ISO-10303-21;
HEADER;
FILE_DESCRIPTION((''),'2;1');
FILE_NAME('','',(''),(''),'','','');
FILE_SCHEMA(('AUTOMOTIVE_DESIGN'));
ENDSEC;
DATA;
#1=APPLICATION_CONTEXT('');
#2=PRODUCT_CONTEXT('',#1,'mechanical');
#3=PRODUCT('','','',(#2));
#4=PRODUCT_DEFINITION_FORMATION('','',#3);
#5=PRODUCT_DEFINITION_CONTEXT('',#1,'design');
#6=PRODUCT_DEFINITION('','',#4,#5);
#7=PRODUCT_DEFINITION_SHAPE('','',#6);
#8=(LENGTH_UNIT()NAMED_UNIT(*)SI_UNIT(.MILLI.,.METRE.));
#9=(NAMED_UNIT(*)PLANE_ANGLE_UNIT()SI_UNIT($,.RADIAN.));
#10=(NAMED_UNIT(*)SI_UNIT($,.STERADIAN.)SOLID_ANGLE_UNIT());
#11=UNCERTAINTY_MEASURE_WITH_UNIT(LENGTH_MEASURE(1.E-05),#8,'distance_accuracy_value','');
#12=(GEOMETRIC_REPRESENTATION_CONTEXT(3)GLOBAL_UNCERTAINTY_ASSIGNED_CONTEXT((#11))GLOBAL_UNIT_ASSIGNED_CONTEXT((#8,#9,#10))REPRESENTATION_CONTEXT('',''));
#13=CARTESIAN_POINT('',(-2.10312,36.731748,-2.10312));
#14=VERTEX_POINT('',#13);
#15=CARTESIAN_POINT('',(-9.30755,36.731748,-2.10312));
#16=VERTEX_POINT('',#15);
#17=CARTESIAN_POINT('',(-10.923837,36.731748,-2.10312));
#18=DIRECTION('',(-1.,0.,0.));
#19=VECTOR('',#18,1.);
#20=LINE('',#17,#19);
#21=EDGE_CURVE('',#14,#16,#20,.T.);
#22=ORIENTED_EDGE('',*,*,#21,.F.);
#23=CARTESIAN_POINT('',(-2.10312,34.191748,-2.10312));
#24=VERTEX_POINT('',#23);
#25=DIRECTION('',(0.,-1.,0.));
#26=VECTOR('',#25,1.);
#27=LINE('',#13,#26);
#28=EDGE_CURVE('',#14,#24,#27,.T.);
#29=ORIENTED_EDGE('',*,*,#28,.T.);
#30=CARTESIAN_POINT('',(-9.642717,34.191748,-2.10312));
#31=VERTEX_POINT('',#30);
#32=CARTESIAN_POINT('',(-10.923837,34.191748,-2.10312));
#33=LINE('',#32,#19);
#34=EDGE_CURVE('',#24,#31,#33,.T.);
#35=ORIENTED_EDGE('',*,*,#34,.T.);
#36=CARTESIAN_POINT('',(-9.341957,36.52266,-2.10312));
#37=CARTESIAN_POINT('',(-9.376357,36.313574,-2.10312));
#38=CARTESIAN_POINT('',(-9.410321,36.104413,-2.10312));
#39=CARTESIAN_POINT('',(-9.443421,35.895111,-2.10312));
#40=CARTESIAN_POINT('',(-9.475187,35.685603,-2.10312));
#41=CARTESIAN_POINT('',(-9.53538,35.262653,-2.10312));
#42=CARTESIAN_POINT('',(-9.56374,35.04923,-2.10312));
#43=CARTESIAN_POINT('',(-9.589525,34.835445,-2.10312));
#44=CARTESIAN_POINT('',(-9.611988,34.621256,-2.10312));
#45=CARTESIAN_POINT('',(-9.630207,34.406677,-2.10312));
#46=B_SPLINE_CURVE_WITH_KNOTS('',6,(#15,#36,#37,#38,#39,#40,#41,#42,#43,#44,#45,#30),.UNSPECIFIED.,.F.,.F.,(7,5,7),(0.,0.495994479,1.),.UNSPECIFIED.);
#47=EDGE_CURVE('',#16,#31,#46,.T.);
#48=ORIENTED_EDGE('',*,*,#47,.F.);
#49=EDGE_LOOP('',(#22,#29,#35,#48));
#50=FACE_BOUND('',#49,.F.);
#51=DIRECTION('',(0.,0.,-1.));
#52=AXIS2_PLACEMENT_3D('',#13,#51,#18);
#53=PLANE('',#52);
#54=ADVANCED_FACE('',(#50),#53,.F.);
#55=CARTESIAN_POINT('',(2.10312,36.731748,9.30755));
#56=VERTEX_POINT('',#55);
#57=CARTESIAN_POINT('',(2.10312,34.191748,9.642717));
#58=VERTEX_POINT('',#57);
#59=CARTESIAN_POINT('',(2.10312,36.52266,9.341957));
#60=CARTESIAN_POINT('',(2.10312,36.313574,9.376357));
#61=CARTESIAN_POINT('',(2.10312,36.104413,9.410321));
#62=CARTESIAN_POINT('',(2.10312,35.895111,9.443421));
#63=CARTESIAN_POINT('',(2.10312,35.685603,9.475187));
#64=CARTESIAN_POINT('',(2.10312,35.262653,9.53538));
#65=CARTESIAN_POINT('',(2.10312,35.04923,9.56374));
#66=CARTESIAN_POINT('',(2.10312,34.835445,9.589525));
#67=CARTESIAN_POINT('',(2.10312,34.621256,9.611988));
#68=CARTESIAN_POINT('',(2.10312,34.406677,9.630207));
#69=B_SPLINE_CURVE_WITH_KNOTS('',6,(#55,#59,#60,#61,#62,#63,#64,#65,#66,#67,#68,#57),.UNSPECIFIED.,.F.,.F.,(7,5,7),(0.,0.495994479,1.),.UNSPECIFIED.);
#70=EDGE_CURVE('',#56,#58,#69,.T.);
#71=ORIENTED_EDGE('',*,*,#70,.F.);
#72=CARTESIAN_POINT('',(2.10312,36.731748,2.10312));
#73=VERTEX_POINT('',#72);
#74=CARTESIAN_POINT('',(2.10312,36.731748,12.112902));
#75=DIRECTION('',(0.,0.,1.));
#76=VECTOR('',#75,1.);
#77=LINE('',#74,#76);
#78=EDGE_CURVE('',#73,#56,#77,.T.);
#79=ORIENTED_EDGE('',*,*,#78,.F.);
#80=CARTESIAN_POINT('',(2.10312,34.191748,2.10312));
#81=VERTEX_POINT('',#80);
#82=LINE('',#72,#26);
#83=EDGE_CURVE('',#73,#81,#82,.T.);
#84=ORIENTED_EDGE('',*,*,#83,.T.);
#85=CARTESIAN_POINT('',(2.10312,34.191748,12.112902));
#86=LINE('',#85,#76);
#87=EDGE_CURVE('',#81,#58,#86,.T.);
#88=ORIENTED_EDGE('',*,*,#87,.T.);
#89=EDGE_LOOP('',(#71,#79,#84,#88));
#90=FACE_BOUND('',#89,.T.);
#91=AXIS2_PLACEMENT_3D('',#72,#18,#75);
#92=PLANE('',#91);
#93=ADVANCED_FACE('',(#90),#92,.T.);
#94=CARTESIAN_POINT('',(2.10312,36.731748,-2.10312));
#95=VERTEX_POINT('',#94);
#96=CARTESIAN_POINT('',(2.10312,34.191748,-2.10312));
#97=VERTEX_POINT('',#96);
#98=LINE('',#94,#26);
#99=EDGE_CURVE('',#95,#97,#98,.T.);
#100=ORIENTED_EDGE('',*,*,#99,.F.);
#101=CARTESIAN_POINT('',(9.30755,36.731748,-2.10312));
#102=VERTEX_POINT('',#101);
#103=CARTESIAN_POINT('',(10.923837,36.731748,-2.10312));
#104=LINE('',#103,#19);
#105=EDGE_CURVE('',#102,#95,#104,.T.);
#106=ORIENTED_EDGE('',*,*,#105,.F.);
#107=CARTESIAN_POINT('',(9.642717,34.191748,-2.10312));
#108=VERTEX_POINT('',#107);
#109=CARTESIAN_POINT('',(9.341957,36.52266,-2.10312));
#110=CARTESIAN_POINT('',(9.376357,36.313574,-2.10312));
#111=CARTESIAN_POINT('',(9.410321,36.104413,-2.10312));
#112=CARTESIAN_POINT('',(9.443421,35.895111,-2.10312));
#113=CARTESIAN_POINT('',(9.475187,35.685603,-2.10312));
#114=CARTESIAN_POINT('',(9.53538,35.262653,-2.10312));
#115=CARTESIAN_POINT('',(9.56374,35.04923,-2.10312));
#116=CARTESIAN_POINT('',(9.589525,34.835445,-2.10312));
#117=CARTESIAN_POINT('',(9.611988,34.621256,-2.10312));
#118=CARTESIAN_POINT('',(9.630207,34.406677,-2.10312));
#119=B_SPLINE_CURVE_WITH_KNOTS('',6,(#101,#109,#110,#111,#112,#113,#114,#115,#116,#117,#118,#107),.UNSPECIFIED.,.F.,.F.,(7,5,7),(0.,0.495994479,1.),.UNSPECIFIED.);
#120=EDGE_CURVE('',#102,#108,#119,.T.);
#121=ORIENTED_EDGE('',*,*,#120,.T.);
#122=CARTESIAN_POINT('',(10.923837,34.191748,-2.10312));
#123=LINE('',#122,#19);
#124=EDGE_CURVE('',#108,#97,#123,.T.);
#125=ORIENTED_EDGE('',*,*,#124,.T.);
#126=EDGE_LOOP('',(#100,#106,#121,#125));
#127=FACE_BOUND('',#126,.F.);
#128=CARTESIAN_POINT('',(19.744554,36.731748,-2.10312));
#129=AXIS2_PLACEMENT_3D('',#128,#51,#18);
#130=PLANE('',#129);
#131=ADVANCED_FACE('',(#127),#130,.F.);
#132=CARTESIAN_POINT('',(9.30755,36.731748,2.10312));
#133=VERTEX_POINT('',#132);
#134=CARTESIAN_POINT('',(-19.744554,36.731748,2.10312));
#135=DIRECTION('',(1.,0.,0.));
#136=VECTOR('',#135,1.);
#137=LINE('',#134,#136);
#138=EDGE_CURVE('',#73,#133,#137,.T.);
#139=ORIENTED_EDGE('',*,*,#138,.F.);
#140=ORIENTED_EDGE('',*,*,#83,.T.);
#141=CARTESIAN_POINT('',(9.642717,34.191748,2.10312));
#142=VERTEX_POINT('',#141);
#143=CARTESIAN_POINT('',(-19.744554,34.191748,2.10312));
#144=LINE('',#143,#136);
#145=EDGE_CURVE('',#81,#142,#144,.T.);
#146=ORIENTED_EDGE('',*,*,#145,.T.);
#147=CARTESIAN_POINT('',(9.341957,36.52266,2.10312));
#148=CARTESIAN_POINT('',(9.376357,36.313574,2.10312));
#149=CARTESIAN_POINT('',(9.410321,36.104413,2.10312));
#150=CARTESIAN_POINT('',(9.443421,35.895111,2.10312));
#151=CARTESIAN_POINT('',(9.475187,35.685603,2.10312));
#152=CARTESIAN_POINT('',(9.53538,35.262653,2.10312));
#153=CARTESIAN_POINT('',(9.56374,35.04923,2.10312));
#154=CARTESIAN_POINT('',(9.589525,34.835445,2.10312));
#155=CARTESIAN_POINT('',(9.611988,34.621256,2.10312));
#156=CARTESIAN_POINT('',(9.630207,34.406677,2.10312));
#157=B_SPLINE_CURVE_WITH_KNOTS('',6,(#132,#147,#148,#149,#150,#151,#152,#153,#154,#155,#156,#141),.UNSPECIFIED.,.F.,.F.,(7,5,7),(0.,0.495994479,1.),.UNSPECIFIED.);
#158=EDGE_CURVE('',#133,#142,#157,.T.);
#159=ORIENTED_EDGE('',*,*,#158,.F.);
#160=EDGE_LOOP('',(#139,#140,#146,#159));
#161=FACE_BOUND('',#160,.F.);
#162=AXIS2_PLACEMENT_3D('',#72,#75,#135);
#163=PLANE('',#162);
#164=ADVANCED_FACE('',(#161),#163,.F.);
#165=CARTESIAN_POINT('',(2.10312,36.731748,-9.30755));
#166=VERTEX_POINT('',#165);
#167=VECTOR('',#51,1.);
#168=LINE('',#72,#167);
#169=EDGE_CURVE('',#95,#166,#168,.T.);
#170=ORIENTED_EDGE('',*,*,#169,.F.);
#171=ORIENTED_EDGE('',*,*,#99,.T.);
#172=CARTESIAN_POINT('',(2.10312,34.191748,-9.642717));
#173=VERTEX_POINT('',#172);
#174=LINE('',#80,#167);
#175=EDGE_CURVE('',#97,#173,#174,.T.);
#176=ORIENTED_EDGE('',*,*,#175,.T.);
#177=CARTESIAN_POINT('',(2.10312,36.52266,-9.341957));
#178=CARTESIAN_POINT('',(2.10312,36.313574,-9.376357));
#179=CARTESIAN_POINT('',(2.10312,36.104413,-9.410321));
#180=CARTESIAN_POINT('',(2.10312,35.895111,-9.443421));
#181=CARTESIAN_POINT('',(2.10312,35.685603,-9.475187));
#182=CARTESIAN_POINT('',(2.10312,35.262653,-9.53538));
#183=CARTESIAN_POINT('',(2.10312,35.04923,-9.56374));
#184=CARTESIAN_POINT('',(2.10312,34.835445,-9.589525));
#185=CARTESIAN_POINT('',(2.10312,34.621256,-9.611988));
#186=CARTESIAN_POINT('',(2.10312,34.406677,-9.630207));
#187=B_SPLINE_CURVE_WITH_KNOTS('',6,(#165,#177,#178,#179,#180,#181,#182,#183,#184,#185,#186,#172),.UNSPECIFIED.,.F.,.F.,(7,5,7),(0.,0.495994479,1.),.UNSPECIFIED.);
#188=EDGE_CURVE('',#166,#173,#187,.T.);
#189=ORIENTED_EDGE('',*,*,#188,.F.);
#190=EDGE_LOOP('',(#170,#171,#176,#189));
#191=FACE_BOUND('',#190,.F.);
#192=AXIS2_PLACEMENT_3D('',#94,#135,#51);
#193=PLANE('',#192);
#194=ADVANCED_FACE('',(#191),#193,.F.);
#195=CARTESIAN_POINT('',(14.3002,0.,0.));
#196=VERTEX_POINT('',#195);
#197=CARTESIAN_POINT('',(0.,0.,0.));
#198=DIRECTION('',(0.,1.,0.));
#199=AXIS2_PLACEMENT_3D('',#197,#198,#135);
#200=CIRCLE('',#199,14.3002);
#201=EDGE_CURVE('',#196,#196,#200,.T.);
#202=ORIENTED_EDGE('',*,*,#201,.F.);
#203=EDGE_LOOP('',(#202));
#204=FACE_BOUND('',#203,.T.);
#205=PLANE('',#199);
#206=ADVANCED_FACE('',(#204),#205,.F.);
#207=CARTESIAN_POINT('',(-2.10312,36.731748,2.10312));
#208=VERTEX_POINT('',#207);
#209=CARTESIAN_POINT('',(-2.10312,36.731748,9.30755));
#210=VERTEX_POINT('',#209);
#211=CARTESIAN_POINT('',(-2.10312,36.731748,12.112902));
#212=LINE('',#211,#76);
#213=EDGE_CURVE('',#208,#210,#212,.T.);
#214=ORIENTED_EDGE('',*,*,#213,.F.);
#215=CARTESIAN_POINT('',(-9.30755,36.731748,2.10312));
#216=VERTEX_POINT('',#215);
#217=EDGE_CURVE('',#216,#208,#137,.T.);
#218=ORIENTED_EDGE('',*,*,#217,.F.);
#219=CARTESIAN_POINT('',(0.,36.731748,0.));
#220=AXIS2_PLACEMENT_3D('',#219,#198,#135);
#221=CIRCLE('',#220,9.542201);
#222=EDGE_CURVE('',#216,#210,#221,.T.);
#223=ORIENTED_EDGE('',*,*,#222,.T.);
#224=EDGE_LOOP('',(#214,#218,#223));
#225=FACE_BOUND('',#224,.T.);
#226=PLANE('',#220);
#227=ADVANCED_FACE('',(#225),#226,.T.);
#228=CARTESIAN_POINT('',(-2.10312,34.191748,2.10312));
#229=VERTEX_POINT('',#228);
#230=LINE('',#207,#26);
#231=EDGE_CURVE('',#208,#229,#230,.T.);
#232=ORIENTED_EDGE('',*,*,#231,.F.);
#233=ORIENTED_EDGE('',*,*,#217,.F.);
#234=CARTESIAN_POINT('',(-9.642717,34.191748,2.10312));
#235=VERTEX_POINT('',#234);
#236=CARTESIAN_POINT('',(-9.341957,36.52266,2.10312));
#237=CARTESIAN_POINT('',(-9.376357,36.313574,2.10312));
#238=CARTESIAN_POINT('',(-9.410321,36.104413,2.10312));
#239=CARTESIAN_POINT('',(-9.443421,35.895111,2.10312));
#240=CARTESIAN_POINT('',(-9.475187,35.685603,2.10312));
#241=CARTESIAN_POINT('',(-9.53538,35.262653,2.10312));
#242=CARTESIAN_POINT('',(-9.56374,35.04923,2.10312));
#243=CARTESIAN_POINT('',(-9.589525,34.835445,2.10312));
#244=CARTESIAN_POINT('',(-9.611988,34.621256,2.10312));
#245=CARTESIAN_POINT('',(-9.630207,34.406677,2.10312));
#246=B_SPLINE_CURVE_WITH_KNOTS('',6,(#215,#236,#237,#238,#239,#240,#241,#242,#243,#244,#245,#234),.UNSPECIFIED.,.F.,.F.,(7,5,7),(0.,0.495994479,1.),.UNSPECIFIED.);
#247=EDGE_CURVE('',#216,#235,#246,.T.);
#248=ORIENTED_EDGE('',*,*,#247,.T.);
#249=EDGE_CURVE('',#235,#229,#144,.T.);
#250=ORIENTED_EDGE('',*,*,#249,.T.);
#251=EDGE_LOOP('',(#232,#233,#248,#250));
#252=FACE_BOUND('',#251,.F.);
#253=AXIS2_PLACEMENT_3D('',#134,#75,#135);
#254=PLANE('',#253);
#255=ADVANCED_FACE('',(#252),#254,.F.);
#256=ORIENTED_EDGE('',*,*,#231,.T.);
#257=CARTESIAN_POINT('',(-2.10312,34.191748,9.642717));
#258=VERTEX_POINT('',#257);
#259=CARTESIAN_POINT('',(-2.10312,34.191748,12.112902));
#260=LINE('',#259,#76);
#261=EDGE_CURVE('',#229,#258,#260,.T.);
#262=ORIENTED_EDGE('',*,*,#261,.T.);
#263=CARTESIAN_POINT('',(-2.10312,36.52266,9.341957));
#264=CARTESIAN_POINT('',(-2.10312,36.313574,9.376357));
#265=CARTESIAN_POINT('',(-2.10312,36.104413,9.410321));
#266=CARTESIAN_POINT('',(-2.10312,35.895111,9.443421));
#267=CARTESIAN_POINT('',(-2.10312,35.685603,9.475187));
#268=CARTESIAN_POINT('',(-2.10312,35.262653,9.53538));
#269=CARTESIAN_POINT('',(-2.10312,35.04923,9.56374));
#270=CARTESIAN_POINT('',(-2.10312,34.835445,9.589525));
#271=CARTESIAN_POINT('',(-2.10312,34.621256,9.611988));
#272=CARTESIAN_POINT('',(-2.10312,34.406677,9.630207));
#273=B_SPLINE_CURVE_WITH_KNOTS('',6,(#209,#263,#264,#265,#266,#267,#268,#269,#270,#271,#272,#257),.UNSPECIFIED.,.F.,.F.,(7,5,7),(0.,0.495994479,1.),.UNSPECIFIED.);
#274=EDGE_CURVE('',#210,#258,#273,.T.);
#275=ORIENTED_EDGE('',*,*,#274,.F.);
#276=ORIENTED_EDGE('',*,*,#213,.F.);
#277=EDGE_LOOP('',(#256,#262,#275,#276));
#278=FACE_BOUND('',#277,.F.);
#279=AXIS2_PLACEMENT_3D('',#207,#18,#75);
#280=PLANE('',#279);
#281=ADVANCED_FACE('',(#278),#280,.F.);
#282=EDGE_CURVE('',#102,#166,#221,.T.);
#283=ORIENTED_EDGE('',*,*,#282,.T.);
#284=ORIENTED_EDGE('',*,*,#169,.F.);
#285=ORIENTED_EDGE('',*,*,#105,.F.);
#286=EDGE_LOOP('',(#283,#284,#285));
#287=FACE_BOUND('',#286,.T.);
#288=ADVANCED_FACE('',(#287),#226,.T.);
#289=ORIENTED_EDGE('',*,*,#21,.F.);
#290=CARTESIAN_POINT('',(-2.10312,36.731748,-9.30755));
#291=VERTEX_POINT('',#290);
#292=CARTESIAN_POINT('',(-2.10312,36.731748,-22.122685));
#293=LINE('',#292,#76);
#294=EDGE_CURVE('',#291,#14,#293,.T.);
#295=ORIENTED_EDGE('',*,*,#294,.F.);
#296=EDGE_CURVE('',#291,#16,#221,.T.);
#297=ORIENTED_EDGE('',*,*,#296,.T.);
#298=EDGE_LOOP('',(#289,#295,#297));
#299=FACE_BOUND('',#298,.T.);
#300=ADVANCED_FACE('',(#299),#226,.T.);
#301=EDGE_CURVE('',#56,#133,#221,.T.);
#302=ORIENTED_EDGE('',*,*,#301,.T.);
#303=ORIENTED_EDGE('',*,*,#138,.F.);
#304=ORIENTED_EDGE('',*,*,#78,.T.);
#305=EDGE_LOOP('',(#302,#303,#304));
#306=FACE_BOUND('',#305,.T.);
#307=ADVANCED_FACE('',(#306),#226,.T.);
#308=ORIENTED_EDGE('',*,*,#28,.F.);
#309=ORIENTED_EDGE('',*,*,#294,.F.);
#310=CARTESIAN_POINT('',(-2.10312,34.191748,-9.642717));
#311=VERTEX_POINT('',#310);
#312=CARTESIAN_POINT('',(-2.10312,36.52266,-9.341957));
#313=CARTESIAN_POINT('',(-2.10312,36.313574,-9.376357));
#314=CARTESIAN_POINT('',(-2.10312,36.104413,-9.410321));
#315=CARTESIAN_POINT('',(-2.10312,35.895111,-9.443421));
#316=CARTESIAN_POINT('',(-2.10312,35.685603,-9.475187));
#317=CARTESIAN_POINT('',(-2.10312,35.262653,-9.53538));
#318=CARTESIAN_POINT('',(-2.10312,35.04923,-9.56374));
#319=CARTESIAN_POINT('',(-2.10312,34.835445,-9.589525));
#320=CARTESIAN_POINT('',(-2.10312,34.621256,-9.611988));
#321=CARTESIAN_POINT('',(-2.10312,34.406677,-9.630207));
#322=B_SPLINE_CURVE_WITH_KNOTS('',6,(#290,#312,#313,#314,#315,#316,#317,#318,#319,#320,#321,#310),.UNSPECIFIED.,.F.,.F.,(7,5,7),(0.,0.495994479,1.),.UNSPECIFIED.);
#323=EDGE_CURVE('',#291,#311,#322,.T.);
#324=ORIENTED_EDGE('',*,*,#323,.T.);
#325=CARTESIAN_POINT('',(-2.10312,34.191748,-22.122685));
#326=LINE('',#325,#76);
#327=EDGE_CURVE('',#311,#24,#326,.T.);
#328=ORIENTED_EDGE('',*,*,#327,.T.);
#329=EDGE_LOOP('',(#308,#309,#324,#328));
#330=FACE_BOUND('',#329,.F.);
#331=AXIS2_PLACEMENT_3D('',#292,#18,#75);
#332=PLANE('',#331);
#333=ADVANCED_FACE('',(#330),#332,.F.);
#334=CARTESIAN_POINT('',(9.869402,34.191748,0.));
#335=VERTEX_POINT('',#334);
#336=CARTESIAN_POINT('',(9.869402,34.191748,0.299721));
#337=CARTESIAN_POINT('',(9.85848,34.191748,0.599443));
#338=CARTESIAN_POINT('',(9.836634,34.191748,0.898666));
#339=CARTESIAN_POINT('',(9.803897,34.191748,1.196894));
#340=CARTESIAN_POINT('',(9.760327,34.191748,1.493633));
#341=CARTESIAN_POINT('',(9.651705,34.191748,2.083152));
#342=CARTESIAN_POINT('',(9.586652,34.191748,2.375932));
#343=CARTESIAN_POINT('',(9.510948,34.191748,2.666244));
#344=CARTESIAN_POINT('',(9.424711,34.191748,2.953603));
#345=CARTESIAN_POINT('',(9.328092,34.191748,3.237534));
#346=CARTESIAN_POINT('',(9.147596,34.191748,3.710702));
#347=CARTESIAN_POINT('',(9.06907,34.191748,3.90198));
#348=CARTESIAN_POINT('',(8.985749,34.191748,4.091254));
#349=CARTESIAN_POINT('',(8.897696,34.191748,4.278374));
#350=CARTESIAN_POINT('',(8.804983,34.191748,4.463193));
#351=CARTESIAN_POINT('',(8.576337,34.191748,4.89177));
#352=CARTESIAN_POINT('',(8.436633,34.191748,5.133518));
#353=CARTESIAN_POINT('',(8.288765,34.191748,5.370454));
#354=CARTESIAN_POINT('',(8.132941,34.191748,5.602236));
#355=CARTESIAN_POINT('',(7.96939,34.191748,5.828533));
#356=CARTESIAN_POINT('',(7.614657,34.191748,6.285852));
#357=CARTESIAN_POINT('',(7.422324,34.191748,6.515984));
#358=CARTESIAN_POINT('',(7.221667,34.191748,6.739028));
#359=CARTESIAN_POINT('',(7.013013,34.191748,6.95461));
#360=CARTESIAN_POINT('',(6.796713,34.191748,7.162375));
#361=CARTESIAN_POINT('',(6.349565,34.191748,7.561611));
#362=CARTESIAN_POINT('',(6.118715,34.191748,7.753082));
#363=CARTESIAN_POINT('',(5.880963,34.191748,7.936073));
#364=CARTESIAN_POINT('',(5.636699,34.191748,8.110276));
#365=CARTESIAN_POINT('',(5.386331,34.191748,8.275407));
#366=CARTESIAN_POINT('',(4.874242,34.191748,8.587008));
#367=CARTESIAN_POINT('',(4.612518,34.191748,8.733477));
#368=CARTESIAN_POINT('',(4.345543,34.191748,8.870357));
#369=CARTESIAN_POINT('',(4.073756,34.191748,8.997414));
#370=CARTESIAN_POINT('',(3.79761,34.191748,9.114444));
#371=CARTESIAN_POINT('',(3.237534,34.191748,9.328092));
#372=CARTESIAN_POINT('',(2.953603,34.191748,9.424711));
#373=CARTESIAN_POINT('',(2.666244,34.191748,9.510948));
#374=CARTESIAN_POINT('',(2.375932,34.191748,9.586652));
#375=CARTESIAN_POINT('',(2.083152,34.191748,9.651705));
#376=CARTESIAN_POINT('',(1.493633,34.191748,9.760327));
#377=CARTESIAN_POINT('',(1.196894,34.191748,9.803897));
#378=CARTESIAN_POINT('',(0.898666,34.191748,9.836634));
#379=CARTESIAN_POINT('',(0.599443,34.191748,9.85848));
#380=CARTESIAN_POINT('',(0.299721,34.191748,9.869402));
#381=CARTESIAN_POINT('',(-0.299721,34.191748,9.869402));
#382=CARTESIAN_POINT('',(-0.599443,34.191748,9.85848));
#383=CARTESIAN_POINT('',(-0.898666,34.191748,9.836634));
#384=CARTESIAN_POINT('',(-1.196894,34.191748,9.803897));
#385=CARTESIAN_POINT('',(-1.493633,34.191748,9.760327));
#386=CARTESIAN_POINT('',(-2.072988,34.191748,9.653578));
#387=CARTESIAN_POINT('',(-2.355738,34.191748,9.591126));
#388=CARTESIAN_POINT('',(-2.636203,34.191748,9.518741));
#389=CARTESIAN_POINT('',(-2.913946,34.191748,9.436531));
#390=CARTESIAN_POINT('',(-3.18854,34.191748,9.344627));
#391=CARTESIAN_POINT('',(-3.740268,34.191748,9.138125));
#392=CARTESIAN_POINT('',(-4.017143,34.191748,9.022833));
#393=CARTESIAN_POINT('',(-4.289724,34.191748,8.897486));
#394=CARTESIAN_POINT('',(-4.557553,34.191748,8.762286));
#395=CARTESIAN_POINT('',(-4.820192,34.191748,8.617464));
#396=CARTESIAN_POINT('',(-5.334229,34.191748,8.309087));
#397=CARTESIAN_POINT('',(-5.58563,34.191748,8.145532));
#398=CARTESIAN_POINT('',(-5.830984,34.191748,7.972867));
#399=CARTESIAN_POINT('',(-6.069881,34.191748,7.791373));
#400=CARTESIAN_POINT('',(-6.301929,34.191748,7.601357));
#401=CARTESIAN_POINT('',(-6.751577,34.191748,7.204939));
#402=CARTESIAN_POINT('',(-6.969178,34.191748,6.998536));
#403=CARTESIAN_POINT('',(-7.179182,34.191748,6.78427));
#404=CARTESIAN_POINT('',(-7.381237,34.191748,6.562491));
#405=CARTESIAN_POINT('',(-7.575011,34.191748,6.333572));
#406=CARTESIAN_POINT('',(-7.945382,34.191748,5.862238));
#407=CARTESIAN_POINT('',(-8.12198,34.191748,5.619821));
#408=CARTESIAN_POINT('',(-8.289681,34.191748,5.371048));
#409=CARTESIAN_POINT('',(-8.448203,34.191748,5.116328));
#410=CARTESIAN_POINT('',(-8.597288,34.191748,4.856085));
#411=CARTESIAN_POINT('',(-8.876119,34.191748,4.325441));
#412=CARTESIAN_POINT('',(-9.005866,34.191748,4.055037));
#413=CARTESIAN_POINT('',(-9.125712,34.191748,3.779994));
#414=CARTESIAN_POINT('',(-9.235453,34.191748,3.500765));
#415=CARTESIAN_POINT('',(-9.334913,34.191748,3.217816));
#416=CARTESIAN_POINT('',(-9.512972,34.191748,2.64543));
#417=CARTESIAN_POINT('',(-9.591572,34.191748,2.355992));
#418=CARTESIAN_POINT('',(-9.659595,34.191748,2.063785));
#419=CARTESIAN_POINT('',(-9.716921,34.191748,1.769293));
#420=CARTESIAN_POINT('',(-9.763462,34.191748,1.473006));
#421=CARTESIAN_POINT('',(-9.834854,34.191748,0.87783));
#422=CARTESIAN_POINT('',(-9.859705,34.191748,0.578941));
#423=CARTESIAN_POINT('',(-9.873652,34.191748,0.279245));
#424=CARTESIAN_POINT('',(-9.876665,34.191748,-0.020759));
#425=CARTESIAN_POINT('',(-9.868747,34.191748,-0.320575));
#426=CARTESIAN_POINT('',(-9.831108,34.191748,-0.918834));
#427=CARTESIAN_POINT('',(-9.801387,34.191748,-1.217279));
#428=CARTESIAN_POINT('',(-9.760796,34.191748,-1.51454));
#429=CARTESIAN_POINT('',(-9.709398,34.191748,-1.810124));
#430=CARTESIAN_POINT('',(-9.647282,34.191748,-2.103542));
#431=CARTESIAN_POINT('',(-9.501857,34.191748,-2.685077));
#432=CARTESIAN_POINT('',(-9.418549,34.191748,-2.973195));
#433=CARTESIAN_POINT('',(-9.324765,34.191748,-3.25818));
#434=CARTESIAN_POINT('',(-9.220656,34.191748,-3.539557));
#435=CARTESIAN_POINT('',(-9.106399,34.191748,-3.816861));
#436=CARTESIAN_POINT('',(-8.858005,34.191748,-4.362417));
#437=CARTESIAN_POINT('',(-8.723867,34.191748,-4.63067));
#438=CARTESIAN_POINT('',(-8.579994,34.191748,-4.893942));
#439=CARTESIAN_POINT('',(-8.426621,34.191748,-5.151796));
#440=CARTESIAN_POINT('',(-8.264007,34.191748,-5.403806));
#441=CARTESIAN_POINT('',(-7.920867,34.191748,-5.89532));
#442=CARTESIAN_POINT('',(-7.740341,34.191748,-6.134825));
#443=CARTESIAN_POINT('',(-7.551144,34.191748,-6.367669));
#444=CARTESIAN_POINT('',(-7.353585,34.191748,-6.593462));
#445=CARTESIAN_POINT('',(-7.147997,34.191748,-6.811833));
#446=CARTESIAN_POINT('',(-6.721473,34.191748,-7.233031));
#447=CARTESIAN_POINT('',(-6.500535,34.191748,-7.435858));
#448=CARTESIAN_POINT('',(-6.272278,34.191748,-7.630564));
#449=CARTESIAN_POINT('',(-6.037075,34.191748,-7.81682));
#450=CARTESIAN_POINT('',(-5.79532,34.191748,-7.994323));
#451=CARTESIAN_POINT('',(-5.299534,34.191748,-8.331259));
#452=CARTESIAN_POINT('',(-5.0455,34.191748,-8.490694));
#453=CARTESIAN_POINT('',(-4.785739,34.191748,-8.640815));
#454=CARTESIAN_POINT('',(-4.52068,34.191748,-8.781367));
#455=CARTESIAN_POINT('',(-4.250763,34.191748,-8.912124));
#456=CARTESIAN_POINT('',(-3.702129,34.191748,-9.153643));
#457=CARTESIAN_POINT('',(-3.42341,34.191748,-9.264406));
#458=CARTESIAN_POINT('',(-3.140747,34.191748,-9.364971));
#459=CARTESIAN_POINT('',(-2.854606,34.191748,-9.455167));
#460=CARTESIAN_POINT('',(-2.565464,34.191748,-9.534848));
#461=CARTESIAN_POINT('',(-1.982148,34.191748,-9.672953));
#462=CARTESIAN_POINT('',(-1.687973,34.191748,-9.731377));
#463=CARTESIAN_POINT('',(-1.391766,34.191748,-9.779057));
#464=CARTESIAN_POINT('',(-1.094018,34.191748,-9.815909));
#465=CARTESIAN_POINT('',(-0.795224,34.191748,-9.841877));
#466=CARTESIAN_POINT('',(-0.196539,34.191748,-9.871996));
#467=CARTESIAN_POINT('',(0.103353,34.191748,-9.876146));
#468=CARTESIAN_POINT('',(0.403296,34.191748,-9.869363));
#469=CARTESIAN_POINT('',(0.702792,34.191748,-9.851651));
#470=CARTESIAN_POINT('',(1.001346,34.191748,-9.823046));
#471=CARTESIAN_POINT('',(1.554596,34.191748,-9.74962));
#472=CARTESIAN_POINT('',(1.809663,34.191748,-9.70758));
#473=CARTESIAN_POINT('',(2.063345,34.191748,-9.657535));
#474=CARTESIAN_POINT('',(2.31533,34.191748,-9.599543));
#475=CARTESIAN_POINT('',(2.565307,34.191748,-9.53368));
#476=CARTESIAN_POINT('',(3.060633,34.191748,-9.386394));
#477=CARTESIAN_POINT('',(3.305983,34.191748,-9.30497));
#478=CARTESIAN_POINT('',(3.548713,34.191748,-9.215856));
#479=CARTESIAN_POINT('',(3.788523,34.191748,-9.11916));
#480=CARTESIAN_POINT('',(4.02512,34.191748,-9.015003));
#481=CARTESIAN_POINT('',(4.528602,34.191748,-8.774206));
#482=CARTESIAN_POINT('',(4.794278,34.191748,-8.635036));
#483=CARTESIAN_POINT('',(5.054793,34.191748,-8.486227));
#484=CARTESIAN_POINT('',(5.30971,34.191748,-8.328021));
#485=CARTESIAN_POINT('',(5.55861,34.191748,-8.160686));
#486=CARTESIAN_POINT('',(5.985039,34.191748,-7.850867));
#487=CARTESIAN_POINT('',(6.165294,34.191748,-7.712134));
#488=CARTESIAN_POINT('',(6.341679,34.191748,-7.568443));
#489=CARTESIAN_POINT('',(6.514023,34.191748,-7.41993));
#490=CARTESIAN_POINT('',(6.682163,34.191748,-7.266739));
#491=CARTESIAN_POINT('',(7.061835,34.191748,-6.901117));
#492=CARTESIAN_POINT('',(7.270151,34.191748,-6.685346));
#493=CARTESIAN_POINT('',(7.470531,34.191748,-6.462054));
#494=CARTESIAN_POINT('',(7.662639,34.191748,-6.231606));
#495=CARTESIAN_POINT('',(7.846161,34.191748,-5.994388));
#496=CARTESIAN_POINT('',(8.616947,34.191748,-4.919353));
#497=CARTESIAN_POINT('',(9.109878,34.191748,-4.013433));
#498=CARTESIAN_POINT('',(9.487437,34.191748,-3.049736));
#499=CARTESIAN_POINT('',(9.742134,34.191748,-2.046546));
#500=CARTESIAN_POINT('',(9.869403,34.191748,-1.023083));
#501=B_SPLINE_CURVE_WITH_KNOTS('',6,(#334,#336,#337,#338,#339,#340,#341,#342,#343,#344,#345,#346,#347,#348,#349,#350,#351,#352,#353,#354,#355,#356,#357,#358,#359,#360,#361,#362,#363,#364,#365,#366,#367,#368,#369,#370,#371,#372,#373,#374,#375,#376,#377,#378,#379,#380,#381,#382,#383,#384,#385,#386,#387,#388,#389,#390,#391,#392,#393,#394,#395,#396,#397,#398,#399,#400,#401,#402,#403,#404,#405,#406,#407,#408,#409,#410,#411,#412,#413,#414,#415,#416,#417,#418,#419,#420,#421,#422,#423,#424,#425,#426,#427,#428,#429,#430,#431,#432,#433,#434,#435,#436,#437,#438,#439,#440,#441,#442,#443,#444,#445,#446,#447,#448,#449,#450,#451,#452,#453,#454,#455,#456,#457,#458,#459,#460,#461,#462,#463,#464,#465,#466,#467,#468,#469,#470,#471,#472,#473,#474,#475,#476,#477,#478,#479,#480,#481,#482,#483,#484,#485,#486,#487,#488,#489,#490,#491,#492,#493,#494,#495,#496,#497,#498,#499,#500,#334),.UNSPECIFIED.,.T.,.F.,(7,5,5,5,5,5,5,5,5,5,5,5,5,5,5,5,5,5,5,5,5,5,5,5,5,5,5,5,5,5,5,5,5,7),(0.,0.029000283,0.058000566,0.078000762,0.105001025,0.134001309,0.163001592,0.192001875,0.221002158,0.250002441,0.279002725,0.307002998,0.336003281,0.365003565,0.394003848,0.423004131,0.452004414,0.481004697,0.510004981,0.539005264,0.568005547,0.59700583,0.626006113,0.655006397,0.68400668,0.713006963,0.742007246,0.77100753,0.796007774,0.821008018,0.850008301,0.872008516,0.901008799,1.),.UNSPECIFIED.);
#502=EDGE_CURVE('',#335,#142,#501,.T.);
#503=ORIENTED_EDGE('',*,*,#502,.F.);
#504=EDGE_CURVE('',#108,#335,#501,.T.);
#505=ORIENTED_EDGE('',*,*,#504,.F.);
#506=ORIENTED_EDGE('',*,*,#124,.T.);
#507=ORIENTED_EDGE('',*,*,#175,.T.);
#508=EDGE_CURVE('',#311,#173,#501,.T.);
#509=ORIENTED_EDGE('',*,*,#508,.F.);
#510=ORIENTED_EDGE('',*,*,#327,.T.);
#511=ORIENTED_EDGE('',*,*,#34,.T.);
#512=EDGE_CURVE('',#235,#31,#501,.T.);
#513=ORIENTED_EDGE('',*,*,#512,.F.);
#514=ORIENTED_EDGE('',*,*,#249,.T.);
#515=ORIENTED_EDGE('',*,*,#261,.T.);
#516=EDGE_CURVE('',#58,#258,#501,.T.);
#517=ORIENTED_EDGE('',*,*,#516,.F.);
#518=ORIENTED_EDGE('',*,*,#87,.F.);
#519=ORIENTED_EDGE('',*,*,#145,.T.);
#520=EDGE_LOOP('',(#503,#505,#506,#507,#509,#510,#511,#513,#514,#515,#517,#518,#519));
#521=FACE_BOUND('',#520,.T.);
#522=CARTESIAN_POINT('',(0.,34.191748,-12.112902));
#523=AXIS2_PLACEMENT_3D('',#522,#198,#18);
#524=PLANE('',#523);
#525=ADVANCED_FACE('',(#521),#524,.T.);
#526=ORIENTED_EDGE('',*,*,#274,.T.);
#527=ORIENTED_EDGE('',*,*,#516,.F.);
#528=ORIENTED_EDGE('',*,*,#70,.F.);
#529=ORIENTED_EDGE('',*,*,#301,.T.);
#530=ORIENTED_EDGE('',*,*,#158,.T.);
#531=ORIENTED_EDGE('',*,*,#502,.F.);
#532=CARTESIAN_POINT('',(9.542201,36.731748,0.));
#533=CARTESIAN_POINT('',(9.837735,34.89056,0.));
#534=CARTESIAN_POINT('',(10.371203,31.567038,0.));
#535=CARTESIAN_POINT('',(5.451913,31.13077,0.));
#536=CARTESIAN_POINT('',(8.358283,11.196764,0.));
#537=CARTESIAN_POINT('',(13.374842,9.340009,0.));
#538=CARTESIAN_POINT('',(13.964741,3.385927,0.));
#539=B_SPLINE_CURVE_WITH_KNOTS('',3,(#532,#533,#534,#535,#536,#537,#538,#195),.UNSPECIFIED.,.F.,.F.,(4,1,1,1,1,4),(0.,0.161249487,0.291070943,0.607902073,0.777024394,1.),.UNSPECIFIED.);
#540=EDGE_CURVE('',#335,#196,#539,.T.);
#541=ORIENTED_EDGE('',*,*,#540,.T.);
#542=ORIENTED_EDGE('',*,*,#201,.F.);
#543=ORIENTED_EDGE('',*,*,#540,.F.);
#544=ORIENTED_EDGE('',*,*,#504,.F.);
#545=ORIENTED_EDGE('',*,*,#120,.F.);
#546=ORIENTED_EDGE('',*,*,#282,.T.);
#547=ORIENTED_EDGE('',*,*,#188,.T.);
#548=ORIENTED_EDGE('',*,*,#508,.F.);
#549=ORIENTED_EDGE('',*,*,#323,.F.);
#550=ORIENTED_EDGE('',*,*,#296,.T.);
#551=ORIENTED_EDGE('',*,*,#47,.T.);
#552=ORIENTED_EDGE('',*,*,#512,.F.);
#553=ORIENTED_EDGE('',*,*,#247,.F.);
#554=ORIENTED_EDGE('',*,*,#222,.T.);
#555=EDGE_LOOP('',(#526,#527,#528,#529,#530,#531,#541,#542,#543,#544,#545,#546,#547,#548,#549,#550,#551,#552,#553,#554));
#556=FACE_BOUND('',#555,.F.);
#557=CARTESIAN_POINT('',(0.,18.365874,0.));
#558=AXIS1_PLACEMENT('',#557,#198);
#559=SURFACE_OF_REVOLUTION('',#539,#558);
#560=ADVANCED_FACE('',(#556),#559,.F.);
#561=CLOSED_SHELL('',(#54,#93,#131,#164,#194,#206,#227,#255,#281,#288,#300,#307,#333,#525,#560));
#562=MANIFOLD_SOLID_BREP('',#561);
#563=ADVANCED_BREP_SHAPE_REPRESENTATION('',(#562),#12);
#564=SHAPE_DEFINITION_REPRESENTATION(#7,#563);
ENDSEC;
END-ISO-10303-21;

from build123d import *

# Parameters (mm, degrees)
F2_W     = 4.20624
F2_H     = 20.0195648662
F2_H_2   = 4.20624
F2_W_2   = 17.6414342363
F3_DEPTH = 2.54


with BuildPart() as f1:
    # F0 (on Top) → F1 (revolve)
    with BuildSketch(Plane.XY):
        with BuildLine():
            Line((0, 36.7317478065), (0, 0))
            Line((0, 0), (14.3002, 0))
            add(Edge.make_bspline(
                [(9.5422007305, 36.7317478065), (9.8377349923, 34.8905601939), (10.3712029618, 31.5670382058), (5.4519131165, 31.1307695275), (8.3582832439, 11.1967644856), (13.374842383, 9.3400085371), (13.964740637, 3.3859269715), (14.3002, 0)],
                knots=[0, 0, 0, 0, 0.1612494868, 0.2910709431, 0.6079020726, 0.7770243936, 1, 1, 1, 1], degree=3))
            Line((9.5422007305, 36.7317478065), (0, 36.7317478065))
        make_face()
    revolve(axis=Axis((0, 18.3658739032, 0), (0, 1, 0)))

    # F2 (on face) → F3 (cut)
    with BuildSketch(Plane(origin=(0, 36.7317478065, 0), x_dir=(-1, 0, 0), z_dir=(0, 1, 0))):
        with Locations((0, -12.1129024331)):
            Rectangle(F2_W, F2_H)
        Rectangle(F2_W, F2_H_2)
        with Locations((10.9238371181, 0)):
            Rectangle(F2_W_2, F2_H_2)
        with Locations((-10.9238371181, 0)):
            Rectangle(F2_W_2, F2_H_2)
        with Locations((0, 12.1129024331)):
            Rectangle(F2_W, F2_H)
    extrude(amount=-F3_DEPTH, mode=Mode.SUBTRACT)


solid = f1.part
